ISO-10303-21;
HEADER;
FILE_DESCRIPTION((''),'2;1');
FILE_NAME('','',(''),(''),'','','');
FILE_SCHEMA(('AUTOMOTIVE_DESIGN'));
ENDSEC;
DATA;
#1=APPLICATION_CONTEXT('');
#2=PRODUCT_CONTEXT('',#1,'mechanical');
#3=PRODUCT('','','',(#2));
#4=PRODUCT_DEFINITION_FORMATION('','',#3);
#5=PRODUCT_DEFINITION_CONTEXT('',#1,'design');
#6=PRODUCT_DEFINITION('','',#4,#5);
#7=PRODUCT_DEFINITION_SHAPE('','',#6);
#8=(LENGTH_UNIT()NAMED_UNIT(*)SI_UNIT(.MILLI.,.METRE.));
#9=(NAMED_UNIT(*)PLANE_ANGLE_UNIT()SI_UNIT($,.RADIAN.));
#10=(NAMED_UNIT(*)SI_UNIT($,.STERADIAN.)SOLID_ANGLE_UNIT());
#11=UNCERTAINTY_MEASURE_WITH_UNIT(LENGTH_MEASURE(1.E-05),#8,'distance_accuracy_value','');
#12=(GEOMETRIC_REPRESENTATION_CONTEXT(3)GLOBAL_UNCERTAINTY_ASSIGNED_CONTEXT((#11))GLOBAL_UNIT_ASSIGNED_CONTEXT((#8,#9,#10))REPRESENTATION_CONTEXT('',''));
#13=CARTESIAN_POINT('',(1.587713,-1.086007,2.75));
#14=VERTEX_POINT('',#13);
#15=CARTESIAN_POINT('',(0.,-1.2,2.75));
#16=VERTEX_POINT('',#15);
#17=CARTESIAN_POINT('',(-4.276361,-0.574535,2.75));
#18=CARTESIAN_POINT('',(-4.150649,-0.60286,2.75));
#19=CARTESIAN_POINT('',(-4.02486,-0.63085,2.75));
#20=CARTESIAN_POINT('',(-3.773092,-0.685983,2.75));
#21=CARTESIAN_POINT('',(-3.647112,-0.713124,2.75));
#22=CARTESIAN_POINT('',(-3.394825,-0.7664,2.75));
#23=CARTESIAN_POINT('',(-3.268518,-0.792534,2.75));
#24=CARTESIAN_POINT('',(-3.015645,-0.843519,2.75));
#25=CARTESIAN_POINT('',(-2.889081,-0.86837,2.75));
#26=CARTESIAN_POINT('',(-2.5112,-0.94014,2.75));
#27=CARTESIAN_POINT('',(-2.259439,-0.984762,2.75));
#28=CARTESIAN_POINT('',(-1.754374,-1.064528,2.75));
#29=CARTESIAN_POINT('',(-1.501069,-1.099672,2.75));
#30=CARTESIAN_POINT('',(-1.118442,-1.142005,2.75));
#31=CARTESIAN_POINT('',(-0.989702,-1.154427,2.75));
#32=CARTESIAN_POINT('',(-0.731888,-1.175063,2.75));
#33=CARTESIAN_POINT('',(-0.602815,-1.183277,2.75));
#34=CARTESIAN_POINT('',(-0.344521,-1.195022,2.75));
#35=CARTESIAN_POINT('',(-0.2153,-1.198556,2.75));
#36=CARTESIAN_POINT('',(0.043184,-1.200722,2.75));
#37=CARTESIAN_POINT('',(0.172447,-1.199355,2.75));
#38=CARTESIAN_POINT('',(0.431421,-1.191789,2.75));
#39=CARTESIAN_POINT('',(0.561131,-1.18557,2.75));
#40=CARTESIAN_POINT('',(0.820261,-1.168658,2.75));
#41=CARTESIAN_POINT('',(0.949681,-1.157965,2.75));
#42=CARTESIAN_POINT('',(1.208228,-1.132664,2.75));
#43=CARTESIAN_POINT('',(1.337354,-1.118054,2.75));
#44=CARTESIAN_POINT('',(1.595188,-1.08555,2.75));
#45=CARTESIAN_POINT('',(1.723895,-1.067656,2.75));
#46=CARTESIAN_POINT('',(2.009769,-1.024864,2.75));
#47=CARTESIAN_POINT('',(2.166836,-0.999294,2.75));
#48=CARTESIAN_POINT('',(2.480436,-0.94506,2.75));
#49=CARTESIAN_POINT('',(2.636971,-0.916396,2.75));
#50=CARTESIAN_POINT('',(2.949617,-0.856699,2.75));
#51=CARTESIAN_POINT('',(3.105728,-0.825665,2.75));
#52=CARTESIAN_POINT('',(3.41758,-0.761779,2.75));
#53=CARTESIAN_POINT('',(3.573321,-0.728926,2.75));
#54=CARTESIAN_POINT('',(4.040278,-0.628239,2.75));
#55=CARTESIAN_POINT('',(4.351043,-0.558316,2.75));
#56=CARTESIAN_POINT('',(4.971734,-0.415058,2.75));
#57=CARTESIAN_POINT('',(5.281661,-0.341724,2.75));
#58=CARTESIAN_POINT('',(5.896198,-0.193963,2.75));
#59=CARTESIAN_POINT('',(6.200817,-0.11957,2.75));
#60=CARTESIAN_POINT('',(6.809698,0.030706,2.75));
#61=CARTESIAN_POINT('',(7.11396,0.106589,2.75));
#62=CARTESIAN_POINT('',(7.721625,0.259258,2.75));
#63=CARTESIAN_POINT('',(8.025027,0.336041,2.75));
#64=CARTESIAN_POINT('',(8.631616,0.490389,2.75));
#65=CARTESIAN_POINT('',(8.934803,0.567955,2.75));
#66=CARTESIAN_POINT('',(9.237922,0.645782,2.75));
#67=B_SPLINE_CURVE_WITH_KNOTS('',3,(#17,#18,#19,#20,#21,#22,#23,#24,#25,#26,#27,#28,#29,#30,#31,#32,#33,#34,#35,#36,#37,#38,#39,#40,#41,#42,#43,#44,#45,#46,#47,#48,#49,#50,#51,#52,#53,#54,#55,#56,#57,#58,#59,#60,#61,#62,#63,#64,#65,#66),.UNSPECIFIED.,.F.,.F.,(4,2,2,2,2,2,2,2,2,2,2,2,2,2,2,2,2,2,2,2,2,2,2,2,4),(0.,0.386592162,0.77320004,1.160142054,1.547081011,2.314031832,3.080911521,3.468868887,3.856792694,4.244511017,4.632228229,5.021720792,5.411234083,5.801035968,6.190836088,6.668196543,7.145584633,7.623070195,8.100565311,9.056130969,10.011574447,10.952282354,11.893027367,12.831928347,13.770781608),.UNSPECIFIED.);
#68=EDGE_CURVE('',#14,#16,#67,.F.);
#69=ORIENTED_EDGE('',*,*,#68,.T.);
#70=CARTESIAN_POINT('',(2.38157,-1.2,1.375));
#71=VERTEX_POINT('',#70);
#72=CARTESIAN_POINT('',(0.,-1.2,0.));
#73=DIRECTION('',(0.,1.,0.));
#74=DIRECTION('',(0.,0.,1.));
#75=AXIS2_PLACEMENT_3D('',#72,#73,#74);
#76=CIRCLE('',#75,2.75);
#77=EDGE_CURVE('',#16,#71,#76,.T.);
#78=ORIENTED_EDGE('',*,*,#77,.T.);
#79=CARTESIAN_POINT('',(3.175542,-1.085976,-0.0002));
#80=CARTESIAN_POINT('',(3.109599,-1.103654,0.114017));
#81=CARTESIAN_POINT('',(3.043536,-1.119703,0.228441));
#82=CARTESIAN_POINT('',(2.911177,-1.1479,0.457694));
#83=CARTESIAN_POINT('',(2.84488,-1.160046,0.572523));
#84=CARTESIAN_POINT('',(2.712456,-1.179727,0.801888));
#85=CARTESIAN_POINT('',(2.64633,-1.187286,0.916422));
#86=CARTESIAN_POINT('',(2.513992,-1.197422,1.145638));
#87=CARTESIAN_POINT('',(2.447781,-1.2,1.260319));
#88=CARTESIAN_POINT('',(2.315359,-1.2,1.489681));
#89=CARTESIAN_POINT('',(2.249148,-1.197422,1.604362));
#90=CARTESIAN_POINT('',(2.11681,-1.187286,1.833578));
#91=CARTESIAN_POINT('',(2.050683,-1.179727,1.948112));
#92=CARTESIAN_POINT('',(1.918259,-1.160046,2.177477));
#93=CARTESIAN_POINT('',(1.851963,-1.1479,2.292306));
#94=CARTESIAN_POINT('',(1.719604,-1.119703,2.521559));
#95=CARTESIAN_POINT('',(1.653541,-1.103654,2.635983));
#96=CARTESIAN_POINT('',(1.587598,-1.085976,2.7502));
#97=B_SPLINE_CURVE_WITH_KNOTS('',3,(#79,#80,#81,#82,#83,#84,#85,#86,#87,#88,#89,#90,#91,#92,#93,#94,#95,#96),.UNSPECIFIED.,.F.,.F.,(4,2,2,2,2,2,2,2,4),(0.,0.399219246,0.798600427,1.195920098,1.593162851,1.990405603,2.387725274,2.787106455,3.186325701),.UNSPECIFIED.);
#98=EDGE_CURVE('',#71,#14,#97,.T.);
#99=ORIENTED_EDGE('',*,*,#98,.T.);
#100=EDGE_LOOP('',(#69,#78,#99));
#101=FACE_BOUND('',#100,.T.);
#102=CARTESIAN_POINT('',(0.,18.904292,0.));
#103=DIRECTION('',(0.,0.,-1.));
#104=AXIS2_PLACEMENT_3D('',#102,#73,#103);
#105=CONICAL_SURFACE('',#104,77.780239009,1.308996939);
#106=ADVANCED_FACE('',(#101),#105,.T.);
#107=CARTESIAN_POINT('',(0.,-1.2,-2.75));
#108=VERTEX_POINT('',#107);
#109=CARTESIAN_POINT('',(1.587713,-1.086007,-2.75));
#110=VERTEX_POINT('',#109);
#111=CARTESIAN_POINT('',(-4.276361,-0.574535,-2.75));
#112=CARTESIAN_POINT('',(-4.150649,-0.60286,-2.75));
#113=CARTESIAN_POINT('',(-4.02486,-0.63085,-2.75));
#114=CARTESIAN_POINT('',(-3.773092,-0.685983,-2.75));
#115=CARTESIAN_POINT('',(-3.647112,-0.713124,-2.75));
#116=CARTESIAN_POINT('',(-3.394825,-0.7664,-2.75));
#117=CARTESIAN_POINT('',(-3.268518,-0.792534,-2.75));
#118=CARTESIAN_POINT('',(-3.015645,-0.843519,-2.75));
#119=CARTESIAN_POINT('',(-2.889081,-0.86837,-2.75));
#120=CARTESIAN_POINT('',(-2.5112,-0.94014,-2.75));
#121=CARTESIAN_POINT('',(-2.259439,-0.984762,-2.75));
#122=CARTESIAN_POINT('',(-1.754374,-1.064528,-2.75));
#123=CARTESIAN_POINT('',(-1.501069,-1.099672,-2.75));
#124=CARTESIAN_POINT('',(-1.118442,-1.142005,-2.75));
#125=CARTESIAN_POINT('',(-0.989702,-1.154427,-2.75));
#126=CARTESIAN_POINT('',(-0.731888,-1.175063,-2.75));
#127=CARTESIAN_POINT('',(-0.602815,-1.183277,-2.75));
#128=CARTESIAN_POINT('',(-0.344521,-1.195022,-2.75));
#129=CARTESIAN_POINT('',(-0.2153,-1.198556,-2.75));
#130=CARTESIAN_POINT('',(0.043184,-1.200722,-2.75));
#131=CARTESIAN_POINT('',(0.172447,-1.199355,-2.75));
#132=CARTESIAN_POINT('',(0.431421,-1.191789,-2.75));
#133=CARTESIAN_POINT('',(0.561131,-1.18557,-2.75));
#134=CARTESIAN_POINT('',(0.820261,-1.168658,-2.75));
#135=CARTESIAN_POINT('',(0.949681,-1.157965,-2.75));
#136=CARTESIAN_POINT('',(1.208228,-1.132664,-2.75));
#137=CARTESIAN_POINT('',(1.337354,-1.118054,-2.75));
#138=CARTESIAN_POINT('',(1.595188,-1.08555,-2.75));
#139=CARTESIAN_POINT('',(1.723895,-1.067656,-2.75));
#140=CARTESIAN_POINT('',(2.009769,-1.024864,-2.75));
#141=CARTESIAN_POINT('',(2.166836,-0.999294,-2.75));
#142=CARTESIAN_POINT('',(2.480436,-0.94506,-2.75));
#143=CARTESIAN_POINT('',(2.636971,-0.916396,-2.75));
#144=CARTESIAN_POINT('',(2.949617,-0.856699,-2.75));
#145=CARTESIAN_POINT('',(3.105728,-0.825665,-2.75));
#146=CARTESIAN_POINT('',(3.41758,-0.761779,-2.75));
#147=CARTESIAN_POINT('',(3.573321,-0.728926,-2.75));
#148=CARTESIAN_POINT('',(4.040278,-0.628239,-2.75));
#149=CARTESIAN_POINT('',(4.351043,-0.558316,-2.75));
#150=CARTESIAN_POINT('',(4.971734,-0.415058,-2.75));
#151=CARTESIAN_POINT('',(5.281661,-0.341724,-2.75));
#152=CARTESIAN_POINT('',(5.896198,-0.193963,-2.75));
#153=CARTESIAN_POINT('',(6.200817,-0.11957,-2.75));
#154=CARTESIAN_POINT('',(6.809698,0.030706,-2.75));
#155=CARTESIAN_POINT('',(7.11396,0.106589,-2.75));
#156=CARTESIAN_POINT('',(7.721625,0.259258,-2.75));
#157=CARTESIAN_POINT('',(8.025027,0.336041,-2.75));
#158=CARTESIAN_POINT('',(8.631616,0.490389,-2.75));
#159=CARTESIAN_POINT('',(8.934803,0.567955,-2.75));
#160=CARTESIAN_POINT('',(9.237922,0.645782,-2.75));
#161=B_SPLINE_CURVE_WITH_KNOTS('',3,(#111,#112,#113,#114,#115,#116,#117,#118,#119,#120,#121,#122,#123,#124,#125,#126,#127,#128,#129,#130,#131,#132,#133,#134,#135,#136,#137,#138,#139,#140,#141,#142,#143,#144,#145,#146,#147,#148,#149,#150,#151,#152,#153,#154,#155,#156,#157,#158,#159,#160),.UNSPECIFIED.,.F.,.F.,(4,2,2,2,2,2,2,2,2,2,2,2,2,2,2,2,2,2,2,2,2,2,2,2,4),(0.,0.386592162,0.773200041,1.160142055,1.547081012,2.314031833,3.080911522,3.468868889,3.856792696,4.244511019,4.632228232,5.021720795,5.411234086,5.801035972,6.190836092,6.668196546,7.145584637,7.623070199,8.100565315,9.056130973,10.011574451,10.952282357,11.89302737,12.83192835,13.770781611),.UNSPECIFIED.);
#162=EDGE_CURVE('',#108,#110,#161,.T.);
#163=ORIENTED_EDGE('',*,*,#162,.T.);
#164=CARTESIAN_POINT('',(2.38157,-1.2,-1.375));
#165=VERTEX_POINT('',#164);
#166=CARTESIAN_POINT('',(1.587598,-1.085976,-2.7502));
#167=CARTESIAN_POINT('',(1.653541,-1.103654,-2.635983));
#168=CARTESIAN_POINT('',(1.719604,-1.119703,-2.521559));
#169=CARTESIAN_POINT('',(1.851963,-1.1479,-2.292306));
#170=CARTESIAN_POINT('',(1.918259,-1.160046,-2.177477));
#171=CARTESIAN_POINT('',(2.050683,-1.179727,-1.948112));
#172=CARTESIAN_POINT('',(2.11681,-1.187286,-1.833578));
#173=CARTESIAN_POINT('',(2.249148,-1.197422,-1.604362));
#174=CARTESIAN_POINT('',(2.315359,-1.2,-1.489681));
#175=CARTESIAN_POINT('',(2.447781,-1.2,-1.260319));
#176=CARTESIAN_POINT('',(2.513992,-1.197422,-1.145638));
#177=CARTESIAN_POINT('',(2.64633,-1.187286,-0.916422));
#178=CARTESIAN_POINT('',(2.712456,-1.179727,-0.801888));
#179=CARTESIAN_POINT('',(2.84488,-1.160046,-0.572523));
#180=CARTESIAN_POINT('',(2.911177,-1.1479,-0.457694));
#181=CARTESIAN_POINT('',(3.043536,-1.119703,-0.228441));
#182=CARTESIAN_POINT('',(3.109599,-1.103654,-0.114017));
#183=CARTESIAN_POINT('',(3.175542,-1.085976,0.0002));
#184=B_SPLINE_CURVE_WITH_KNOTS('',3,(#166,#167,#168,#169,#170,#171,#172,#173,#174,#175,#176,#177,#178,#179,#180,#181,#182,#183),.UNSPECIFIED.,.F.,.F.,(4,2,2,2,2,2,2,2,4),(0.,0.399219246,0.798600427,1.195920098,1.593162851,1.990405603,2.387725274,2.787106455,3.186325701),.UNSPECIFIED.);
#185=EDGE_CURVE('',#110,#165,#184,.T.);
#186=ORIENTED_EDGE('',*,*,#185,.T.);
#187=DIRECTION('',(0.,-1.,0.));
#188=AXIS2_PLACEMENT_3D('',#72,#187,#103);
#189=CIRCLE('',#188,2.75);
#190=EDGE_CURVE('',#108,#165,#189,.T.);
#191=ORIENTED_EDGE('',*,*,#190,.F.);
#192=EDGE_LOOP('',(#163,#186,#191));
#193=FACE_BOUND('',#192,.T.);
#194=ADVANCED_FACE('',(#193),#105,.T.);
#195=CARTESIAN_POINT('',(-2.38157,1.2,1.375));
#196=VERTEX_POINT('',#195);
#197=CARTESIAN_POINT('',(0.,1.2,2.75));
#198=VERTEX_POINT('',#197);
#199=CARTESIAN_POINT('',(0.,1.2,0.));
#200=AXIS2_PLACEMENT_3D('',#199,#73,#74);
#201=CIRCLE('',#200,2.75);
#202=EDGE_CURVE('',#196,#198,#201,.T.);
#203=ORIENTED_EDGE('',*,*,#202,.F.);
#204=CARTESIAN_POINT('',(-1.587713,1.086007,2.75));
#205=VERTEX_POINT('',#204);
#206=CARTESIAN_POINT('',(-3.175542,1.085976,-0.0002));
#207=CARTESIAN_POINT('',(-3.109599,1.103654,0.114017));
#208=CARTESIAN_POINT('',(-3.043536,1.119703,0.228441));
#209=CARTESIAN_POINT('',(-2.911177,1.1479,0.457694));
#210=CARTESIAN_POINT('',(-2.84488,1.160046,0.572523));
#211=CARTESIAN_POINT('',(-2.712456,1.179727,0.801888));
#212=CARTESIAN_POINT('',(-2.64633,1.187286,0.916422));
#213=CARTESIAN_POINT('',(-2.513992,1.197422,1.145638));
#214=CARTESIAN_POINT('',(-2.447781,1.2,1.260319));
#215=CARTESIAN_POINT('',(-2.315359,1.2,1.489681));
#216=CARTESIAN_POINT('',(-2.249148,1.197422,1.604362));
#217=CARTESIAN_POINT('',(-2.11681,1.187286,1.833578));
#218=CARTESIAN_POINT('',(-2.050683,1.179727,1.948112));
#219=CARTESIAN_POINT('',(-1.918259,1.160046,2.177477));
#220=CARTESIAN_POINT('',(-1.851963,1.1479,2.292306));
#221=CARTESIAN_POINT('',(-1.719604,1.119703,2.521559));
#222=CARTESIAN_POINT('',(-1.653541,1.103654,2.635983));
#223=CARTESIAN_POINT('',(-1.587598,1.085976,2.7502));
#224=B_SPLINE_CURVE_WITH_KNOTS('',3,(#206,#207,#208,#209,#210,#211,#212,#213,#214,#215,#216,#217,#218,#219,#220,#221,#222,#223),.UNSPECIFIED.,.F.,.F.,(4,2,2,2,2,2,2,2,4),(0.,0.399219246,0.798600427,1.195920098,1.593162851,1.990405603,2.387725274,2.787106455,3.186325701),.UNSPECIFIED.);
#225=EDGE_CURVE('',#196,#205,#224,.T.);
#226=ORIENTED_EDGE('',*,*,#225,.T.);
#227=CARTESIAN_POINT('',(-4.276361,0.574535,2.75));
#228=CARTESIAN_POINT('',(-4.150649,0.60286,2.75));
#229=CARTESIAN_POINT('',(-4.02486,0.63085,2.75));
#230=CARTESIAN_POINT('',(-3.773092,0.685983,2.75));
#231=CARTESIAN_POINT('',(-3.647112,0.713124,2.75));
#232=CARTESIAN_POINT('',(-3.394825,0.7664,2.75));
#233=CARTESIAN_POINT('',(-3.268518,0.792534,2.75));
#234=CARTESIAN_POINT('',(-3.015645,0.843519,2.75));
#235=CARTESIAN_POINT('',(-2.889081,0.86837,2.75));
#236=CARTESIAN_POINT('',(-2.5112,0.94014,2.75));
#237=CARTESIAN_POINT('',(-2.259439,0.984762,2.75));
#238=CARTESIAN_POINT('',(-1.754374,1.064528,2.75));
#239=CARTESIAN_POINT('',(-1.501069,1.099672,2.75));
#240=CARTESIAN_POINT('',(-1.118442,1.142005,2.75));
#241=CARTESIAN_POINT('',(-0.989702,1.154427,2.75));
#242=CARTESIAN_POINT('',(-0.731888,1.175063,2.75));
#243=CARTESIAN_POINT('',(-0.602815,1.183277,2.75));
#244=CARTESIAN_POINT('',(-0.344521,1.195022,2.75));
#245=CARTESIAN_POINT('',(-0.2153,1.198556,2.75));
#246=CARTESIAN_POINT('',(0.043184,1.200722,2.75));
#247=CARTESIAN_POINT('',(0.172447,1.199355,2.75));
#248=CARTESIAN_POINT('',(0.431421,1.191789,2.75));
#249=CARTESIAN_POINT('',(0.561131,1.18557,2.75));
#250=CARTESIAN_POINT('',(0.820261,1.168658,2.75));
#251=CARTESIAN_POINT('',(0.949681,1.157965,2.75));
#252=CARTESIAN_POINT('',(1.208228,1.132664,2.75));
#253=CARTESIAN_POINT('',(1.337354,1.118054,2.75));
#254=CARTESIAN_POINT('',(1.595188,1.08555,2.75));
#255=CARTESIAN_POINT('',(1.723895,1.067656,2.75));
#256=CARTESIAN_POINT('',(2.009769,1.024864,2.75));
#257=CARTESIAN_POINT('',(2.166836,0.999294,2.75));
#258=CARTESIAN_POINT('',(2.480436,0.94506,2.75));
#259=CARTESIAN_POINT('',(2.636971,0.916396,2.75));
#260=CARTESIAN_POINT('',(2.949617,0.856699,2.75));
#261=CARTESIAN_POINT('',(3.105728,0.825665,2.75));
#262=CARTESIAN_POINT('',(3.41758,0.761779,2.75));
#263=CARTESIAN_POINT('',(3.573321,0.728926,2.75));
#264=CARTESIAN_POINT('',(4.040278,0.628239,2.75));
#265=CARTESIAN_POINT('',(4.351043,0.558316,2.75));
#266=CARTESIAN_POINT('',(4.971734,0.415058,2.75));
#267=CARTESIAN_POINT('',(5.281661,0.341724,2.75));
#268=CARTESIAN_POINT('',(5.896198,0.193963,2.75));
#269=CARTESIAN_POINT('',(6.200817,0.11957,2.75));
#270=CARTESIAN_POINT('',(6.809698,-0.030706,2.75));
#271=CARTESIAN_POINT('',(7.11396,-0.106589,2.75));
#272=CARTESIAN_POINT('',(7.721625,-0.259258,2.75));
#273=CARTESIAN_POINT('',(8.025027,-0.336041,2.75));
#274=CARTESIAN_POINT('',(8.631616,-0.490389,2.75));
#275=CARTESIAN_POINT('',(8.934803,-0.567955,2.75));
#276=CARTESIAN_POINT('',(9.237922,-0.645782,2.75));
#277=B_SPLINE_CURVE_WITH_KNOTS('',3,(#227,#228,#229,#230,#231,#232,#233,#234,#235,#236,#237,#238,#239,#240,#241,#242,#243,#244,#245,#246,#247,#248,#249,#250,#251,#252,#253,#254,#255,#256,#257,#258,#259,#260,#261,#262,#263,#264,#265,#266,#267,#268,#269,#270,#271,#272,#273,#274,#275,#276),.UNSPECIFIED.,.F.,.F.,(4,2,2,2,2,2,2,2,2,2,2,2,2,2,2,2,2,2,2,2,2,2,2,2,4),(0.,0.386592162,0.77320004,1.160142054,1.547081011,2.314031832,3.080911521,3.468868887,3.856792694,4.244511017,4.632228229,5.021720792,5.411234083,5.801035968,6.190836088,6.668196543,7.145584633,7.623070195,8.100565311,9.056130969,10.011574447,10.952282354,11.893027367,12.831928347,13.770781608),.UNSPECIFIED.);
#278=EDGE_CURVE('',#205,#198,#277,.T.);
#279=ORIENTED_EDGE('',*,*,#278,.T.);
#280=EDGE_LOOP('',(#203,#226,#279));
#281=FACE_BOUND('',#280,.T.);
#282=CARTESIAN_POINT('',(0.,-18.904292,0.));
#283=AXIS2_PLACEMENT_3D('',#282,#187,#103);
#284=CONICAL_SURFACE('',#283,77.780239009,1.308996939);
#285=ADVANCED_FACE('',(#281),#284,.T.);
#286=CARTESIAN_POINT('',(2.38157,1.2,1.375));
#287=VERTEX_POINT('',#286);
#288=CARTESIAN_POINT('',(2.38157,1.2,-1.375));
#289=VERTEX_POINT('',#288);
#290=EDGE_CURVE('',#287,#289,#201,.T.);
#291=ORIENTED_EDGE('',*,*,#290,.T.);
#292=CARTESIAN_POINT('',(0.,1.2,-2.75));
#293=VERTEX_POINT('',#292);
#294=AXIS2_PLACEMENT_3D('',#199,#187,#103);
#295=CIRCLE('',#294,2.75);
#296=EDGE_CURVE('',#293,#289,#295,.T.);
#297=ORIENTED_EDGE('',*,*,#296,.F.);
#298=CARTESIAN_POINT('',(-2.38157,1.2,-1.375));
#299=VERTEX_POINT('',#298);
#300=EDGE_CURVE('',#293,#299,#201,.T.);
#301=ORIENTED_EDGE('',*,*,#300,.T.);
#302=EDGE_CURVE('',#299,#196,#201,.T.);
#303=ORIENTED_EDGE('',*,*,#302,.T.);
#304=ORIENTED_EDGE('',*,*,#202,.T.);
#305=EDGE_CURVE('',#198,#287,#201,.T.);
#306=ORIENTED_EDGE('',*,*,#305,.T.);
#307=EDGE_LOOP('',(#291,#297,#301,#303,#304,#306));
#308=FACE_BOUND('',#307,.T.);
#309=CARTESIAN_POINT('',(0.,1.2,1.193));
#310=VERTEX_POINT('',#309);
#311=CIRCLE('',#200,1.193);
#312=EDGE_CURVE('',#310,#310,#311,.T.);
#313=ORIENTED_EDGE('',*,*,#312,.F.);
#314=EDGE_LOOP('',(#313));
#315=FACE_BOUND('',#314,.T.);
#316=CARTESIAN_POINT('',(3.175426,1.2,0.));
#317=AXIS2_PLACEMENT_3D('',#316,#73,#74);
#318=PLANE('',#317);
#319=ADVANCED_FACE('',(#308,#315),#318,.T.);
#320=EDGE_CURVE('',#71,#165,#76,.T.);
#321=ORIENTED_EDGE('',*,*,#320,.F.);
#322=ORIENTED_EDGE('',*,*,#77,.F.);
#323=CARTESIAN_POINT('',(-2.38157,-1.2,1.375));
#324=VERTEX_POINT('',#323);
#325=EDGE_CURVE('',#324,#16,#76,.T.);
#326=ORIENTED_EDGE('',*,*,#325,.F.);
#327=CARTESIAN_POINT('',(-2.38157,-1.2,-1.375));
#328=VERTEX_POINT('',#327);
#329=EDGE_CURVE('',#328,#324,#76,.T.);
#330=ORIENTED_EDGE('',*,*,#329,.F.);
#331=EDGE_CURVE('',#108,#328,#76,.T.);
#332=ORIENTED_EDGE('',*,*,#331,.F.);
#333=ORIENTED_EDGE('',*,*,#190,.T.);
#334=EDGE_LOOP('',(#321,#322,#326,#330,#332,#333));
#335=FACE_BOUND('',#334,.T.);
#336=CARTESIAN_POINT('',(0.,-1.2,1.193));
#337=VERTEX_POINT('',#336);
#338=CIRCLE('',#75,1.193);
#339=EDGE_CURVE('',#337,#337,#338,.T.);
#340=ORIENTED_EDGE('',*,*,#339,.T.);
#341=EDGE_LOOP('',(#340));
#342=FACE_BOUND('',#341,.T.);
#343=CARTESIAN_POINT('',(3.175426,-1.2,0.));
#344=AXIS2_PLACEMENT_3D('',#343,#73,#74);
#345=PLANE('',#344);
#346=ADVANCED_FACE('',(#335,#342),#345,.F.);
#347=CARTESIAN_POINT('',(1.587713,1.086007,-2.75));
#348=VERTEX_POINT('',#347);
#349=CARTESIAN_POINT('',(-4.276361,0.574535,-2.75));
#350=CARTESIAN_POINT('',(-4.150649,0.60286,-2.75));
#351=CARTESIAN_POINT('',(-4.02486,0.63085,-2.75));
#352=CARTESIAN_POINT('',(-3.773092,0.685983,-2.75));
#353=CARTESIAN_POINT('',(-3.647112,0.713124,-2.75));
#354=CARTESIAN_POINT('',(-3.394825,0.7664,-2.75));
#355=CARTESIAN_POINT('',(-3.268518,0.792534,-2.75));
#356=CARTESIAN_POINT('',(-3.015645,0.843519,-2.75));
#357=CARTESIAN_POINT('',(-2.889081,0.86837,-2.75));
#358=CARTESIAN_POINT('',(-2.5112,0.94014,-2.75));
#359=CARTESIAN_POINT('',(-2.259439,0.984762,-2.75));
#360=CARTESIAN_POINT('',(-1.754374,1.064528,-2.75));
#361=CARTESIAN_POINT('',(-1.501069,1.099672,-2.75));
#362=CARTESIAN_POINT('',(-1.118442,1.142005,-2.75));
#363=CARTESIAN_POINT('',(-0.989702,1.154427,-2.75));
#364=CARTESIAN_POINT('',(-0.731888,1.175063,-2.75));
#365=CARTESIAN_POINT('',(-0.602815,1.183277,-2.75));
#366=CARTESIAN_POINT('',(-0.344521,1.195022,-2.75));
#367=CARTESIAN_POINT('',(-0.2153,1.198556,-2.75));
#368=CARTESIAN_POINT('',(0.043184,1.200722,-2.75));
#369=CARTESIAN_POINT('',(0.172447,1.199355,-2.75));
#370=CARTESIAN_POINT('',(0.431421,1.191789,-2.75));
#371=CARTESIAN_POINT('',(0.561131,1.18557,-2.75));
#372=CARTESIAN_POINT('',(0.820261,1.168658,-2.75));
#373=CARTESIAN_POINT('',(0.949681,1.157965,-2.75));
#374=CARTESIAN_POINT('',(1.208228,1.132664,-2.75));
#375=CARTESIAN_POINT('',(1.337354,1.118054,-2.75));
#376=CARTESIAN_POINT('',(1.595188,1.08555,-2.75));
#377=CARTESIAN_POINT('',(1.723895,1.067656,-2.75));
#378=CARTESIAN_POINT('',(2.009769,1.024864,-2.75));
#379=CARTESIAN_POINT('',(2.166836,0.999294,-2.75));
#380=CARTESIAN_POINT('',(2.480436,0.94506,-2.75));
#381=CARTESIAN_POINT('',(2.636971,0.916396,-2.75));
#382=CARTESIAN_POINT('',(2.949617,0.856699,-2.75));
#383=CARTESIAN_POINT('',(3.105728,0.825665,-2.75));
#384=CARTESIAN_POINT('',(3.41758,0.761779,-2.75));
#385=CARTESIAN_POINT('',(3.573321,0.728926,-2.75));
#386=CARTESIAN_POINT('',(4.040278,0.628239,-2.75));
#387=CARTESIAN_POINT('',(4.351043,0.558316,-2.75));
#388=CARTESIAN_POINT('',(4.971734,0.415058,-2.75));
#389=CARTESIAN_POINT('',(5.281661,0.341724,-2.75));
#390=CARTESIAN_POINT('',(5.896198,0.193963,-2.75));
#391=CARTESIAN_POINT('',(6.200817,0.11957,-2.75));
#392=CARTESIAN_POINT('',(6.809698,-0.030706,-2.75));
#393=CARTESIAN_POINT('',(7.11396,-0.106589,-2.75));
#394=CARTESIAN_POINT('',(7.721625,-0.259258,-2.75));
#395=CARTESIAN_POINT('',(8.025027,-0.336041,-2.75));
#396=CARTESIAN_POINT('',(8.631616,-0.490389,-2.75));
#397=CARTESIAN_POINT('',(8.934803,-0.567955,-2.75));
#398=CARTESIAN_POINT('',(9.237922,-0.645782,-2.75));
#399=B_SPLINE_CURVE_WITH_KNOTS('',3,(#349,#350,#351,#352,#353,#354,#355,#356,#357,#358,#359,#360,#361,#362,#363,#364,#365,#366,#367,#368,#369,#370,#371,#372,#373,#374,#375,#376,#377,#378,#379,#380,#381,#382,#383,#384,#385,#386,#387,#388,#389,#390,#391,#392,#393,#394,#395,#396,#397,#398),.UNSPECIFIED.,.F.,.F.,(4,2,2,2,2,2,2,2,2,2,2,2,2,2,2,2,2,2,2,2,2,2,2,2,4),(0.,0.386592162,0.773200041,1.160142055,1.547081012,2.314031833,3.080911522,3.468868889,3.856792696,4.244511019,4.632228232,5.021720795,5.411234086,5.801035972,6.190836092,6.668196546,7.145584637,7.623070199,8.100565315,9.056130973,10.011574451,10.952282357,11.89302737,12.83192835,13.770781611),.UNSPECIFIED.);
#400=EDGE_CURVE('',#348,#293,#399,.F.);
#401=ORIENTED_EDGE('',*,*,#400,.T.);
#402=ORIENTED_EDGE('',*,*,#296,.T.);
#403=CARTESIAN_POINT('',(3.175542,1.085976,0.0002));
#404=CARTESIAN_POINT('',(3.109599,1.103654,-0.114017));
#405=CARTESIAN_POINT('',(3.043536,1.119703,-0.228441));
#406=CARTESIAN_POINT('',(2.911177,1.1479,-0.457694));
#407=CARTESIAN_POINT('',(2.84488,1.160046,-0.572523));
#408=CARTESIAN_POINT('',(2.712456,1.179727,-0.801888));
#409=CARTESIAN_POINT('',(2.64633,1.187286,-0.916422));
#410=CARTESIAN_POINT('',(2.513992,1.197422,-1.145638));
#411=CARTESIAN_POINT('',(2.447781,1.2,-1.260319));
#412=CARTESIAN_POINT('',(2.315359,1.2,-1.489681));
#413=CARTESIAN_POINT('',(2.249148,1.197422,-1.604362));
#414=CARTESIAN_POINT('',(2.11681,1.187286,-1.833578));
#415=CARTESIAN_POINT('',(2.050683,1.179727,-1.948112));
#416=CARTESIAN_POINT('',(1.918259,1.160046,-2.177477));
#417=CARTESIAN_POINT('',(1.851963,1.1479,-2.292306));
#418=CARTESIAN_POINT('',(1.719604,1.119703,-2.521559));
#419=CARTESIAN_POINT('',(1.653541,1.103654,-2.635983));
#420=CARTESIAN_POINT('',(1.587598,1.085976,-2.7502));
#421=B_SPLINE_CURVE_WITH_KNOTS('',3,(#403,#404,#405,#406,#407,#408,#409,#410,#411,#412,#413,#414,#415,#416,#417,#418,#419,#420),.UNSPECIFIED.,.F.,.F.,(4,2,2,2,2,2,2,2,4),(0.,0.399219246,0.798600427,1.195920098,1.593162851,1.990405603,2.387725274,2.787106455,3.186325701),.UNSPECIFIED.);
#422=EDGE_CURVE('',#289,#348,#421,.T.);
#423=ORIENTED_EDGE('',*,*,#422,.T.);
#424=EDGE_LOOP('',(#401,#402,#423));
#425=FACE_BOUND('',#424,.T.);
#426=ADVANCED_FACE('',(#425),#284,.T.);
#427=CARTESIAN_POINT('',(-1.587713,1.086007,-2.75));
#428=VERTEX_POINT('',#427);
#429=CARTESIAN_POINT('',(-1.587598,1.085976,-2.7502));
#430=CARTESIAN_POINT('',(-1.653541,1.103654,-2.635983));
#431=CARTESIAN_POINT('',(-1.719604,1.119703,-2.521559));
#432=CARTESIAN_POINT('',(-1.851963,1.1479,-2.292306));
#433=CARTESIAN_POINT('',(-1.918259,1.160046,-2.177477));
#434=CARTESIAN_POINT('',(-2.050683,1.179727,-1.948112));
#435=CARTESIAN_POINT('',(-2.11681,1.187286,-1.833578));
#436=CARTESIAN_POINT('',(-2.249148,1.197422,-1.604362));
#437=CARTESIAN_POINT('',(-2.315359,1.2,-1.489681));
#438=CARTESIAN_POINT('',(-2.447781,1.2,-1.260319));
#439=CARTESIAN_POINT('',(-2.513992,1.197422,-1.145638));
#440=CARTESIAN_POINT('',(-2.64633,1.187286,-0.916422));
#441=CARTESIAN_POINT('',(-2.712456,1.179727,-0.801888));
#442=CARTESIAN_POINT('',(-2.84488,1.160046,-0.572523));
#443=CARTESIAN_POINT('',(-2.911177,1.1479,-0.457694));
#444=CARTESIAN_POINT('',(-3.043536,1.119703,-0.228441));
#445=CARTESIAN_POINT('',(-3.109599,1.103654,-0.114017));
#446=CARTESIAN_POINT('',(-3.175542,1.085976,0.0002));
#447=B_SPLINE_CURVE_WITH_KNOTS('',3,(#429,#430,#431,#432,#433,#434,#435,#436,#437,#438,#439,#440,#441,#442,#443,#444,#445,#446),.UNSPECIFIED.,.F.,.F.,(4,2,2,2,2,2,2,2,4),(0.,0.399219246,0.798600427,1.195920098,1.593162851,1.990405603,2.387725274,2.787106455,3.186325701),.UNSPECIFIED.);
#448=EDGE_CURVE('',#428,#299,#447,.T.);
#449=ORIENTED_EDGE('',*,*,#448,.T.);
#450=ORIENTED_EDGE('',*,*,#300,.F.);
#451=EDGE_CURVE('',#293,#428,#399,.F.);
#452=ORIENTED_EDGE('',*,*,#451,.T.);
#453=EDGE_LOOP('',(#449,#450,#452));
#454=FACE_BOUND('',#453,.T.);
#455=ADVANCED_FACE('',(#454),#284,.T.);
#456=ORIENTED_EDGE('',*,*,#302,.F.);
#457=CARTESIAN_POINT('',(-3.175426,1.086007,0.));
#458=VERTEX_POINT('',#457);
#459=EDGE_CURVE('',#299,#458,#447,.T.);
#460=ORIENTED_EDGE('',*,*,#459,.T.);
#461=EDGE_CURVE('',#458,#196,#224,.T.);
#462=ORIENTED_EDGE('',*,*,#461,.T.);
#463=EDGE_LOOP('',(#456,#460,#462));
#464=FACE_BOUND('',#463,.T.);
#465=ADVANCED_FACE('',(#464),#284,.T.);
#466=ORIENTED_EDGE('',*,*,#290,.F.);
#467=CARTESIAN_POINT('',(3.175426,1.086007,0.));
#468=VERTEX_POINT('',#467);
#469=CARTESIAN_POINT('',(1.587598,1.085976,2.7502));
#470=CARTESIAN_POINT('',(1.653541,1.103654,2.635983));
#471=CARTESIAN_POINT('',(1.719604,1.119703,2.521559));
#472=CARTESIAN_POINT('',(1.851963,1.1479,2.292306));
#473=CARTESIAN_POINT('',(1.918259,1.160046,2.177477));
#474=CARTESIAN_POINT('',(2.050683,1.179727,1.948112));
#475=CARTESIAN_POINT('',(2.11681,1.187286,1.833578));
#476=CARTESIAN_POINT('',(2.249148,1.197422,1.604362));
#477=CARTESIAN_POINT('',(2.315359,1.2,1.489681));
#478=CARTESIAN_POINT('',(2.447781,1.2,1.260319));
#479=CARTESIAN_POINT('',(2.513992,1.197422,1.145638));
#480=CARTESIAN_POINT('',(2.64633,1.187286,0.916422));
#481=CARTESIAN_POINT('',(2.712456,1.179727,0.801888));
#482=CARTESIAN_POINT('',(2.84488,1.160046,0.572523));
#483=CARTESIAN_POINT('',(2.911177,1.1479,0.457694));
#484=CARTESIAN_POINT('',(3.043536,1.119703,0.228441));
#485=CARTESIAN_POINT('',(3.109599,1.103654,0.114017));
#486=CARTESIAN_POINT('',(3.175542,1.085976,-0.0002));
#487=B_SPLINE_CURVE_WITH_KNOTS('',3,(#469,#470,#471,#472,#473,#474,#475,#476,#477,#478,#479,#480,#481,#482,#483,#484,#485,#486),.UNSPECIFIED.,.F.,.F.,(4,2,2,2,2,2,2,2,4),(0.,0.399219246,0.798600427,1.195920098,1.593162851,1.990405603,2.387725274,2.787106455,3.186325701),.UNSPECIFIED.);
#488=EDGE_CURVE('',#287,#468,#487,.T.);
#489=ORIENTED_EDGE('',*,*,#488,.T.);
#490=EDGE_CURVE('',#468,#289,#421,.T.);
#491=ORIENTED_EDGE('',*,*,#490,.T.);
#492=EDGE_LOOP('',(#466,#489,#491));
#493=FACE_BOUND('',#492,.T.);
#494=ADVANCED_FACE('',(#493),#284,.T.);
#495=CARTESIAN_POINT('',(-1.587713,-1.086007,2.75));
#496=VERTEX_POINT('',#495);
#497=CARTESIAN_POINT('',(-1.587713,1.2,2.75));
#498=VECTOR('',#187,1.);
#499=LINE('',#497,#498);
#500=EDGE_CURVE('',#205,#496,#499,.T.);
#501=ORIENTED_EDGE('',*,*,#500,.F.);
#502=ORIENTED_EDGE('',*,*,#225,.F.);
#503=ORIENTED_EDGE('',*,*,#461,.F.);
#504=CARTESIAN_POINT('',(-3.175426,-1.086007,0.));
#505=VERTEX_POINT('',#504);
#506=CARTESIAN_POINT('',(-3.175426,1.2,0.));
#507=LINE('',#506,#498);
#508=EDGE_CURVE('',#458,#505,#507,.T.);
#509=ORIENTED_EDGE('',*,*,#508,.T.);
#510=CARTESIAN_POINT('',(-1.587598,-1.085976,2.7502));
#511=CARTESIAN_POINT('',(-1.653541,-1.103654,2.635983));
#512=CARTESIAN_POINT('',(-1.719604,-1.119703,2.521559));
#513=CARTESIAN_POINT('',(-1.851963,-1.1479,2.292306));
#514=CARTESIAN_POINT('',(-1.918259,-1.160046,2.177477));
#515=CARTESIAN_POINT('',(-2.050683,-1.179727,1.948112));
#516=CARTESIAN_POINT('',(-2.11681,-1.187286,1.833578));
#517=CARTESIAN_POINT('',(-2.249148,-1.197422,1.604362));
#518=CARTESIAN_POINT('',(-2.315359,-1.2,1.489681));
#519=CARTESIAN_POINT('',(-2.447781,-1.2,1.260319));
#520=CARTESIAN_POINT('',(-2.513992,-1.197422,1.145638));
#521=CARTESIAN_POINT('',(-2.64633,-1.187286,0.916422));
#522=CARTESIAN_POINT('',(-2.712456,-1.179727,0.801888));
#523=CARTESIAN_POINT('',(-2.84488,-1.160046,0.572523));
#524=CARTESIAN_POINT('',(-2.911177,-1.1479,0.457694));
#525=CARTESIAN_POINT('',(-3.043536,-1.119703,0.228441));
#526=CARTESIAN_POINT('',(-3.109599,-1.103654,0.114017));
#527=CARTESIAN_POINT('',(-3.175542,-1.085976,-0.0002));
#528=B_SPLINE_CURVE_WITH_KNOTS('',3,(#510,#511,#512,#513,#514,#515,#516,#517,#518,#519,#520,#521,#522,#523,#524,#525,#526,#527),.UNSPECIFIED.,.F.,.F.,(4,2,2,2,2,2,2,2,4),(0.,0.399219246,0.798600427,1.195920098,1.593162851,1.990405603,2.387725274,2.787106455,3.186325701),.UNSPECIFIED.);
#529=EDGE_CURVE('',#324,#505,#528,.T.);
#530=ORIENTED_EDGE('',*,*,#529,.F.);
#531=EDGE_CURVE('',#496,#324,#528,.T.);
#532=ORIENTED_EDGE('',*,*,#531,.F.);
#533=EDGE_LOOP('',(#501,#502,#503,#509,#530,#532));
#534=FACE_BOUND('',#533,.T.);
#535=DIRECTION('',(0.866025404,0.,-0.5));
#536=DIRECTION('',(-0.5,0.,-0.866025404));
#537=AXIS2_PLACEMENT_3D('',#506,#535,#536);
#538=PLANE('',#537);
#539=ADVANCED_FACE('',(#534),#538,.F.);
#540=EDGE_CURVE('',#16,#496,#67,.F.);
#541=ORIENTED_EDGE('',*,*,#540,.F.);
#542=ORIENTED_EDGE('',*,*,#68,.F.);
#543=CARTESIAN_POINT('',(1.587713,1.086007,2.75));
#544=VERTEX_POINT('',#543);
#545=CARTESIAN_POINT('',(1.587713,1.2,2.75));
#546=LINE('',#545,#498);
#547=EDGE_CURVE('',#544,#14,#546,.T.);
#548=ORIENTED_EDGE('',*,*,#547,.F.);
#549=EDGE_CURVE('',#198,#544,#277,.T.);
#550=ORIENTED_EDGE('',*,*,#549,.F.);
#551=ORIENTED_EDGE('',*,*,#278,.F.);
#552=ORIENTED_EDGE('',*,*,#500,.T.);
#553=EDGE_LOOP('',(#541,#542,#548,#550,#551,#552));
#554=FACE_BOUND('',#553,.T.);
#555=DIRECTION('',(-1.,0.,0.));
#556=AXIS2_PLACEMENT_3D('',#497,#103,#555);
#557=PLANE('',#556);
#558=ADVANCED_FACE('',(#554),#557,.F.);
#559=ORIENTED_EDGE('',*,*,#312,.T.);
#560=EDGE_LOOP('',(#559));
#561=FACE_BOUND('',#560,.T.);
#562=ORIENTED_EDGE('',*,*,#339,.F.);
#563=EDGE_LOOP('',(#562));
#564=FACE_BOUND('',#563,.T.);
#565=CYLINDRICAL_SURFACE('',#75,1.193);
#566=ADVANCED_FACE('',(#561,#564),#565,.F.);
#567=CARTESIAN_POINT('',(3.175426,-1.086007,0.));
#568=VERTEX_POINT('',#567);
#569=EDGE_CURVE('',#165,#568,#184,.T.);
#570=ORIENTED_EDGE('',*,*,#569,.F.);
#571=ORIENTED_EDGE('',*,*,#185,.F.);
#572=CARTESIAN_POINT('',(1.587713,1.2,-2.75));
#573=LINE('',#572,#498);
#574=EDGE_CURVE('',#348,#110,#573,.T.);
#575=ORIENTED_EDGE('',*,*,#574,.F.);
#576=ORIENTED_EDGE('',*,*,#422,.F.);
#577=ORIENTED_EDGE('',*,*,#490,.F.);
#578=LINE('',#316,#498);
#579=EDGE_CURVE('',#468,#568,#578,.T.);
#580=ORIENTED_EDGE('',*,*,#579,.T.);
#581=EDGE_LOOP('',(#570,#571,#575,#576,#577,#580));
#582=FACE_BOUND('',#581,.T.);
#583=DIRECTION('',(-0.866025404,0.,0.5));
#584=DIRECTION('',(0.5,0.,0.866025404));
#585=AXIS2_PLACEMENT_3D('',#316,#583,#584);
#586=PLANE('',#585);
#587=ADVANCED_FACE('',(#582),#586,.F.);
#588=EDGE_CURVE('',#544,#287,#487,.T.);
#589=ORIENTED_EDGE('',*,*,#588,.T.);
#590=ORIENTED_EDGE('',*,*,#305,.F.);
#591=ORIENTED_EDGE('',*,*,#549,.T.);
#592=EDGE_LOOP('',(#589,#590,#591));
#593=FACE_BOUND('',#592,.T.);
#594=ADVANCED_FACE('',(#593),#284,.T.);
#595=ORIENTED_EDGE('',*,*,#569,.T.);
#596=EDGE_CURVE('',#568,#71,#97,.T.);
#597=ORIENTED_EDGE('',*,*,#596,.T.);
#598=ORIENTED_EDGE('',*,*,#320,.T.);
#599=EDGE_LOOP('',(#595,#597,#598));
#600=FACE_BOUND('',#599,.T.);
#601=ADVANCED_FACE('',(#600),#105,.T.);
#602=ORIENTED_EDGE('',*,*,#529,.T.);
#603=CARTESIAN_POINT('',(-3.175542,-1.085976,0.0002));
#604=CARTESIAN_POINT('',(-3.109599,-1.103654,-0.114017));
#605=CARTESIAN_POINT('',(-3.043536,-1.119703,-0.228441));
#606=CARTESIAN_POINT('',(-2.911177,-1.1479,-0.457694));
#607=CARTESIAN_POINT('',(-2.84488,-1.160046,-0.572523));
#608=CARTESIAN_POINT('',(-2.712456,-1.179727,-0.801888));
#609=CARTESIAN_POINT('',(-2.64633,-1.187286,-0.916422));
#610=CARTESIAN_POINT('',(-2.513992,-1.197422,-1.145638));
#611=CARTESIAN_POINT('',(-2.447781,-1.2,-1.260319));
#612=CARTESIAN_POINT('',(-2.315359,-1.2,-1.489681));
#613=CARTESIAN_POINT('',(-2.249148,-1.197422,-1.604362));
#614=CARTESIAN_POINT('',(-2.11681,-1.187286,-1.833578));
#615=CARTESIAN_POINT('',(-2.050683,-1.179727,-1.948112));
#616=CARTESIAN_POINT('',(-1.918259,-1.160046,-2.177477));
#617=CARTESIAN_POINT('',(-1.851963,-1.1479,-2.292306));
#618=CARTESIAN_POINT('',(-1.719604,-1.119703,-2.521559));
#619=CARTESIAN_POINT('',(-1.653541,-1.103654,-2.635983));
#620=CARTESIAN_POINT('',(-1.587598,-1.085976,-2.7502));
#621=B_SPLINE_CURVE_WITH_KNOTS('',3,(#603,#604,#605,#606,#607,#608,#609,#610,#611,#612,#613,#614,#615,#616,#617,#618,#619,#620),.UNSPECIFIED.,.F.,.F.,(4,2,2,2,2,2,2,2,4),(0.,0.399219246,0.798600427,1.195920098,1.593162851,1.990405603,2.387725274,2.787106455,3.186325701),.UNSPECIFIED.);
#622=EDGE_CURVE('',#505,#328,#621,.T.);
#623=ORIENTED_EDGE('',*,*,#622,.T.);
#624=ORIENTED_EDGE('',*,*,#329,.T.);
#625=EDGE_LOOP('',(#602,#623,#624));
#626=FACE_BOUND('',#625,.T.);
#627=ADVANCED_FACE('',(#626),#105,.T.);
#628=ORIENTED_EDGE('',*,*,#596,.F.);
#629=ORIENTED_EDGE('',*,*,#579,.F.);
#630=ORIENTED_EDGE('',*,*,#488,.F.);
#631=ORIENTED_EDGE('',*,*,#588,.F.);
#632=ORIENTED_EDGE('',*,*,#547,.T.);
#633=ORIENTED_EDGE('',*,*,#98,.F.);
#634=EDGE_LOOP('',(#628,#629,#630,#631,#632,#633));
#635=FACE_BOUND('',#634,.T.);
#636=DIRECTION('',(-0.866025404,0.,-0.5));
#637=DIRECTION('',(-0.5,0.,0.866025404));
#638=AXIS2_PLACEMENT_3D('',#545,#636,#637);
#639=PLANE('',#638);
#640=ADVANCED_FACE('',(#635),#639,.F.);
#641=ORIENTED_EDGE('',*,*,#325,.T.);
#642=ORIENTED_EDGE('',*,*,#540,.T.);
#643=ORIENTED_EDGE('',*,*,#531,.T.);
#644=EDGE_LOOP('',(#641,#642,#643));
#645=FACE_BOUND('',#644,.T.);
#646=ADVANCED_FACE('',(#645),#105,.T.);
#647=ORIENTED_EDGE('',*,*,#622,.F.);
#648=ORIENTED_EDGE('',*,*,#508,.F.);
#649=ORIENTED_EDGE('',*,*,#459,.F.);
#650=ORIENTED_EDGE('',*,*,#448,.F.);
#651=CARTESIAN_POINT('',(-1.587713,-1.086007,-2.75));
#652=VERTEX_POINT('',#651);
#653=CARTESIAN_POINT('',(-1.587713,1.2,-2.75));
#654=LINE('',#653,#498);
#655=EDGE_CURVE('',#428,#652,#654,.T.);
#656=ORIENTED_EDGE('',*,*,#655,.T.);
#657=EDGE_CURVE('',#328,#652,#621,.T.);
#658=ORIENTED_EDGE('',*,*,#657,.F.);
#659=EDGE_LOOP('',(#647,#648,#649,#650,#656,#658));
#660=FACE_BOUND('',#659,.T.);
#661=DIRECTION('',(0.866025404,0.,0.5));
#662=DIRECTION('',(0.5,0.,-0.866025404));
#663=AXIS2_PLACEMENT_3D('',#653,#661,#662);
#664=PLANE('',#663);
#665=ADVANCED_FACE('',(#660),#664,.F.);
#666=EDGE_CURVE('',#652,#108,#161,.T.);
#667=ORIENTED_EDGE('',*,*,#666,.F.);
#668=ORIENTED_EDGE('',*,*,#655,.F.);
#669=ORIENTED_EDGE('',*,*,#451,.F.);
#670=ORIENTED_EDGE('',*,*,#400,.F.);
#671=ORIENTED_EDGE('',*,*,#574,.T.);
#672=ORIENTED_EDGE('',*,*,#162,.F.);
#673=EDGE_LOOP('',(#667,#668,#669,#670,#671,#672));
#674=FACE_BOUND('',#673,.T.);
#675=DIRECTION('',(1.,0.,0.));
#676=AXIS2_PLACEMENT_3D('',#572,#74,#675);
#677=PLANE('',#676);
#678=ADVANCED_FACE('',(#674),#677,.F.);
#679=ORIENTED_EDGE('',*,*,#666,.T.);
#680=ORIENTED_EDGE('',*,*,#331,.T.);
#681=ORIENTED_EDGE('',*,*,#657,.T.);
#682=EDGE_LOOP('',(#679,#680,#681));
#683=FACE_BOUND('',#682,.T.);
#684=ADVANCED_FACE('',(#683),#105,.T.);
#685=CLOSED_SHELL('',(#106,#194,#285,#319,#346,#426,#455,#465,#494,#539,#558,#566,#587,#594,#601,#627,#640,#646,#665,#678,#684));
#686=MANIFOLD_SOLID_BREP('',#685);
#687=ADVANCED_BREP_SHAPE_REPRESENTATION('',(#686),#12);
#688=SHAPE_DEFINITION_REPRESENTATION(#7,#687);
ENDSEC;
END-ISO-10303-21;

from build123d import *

# Parameters (mm, degrees)
EXTRUDE1_DEPTH = 1.2
SKETCH3_R      = 1.193
EXTRUDE2_DEPTH = 5.837957558


with BuildPart() as part:
    # Sketch1 → Extrude1 (new, symmetric)
    with BuildSketch(Plane(origin=(0, 0, 0), x_dir=(1, 0, 0), z_dir=(0, 1, 0))):
        Polygon((3.175426481, 0), (1.58771324, 2.75), (-1.58771324, 2.75), (-3.175426481, 0), (-1.58771324, -2.75), (1.58771324, -2.75), align=None)
    extrude(amount=EXTRUDE1_DEPTH, both=True)

    # Sketch2 → Cut-Revolve1 (revolve, cut)
    with BuildSketch(Plane(origin=(0, 0, 0), x_dir=(0, 0, -1), z_dir=(1, 0, 0))):
        Polygon((-2.75, 1.2), (-77.780239009, -18.90429195), (-77.780239009, 1.2), align=None)
    cut_revolve1 = revolve(axis=Axis((0, 0, 0), (0, 1, 0)), mode=Mode.SUBTRACT)

    # Mirror1: Cut-Revolve1 across plane
    add(cut_revolve1.mirror(Plane.ZX), mode=Mode.SUBTRACT)

    # Sketch3 → Extrude2 (cut, through all)
    with BuildSketch(Plane(origin=(0, 1.2, 0), x_dir=(1, 0, 0), z_dir=(0, 1, 0))):
        with Locations(Location((0, 0, 0), (0, 0, 270))):
            Circle(SKETCH3_R)
    extrude(amount=-EXTRUDE2_DEPTH, mode=Mode.SUBTRACT)


solid = part.part
